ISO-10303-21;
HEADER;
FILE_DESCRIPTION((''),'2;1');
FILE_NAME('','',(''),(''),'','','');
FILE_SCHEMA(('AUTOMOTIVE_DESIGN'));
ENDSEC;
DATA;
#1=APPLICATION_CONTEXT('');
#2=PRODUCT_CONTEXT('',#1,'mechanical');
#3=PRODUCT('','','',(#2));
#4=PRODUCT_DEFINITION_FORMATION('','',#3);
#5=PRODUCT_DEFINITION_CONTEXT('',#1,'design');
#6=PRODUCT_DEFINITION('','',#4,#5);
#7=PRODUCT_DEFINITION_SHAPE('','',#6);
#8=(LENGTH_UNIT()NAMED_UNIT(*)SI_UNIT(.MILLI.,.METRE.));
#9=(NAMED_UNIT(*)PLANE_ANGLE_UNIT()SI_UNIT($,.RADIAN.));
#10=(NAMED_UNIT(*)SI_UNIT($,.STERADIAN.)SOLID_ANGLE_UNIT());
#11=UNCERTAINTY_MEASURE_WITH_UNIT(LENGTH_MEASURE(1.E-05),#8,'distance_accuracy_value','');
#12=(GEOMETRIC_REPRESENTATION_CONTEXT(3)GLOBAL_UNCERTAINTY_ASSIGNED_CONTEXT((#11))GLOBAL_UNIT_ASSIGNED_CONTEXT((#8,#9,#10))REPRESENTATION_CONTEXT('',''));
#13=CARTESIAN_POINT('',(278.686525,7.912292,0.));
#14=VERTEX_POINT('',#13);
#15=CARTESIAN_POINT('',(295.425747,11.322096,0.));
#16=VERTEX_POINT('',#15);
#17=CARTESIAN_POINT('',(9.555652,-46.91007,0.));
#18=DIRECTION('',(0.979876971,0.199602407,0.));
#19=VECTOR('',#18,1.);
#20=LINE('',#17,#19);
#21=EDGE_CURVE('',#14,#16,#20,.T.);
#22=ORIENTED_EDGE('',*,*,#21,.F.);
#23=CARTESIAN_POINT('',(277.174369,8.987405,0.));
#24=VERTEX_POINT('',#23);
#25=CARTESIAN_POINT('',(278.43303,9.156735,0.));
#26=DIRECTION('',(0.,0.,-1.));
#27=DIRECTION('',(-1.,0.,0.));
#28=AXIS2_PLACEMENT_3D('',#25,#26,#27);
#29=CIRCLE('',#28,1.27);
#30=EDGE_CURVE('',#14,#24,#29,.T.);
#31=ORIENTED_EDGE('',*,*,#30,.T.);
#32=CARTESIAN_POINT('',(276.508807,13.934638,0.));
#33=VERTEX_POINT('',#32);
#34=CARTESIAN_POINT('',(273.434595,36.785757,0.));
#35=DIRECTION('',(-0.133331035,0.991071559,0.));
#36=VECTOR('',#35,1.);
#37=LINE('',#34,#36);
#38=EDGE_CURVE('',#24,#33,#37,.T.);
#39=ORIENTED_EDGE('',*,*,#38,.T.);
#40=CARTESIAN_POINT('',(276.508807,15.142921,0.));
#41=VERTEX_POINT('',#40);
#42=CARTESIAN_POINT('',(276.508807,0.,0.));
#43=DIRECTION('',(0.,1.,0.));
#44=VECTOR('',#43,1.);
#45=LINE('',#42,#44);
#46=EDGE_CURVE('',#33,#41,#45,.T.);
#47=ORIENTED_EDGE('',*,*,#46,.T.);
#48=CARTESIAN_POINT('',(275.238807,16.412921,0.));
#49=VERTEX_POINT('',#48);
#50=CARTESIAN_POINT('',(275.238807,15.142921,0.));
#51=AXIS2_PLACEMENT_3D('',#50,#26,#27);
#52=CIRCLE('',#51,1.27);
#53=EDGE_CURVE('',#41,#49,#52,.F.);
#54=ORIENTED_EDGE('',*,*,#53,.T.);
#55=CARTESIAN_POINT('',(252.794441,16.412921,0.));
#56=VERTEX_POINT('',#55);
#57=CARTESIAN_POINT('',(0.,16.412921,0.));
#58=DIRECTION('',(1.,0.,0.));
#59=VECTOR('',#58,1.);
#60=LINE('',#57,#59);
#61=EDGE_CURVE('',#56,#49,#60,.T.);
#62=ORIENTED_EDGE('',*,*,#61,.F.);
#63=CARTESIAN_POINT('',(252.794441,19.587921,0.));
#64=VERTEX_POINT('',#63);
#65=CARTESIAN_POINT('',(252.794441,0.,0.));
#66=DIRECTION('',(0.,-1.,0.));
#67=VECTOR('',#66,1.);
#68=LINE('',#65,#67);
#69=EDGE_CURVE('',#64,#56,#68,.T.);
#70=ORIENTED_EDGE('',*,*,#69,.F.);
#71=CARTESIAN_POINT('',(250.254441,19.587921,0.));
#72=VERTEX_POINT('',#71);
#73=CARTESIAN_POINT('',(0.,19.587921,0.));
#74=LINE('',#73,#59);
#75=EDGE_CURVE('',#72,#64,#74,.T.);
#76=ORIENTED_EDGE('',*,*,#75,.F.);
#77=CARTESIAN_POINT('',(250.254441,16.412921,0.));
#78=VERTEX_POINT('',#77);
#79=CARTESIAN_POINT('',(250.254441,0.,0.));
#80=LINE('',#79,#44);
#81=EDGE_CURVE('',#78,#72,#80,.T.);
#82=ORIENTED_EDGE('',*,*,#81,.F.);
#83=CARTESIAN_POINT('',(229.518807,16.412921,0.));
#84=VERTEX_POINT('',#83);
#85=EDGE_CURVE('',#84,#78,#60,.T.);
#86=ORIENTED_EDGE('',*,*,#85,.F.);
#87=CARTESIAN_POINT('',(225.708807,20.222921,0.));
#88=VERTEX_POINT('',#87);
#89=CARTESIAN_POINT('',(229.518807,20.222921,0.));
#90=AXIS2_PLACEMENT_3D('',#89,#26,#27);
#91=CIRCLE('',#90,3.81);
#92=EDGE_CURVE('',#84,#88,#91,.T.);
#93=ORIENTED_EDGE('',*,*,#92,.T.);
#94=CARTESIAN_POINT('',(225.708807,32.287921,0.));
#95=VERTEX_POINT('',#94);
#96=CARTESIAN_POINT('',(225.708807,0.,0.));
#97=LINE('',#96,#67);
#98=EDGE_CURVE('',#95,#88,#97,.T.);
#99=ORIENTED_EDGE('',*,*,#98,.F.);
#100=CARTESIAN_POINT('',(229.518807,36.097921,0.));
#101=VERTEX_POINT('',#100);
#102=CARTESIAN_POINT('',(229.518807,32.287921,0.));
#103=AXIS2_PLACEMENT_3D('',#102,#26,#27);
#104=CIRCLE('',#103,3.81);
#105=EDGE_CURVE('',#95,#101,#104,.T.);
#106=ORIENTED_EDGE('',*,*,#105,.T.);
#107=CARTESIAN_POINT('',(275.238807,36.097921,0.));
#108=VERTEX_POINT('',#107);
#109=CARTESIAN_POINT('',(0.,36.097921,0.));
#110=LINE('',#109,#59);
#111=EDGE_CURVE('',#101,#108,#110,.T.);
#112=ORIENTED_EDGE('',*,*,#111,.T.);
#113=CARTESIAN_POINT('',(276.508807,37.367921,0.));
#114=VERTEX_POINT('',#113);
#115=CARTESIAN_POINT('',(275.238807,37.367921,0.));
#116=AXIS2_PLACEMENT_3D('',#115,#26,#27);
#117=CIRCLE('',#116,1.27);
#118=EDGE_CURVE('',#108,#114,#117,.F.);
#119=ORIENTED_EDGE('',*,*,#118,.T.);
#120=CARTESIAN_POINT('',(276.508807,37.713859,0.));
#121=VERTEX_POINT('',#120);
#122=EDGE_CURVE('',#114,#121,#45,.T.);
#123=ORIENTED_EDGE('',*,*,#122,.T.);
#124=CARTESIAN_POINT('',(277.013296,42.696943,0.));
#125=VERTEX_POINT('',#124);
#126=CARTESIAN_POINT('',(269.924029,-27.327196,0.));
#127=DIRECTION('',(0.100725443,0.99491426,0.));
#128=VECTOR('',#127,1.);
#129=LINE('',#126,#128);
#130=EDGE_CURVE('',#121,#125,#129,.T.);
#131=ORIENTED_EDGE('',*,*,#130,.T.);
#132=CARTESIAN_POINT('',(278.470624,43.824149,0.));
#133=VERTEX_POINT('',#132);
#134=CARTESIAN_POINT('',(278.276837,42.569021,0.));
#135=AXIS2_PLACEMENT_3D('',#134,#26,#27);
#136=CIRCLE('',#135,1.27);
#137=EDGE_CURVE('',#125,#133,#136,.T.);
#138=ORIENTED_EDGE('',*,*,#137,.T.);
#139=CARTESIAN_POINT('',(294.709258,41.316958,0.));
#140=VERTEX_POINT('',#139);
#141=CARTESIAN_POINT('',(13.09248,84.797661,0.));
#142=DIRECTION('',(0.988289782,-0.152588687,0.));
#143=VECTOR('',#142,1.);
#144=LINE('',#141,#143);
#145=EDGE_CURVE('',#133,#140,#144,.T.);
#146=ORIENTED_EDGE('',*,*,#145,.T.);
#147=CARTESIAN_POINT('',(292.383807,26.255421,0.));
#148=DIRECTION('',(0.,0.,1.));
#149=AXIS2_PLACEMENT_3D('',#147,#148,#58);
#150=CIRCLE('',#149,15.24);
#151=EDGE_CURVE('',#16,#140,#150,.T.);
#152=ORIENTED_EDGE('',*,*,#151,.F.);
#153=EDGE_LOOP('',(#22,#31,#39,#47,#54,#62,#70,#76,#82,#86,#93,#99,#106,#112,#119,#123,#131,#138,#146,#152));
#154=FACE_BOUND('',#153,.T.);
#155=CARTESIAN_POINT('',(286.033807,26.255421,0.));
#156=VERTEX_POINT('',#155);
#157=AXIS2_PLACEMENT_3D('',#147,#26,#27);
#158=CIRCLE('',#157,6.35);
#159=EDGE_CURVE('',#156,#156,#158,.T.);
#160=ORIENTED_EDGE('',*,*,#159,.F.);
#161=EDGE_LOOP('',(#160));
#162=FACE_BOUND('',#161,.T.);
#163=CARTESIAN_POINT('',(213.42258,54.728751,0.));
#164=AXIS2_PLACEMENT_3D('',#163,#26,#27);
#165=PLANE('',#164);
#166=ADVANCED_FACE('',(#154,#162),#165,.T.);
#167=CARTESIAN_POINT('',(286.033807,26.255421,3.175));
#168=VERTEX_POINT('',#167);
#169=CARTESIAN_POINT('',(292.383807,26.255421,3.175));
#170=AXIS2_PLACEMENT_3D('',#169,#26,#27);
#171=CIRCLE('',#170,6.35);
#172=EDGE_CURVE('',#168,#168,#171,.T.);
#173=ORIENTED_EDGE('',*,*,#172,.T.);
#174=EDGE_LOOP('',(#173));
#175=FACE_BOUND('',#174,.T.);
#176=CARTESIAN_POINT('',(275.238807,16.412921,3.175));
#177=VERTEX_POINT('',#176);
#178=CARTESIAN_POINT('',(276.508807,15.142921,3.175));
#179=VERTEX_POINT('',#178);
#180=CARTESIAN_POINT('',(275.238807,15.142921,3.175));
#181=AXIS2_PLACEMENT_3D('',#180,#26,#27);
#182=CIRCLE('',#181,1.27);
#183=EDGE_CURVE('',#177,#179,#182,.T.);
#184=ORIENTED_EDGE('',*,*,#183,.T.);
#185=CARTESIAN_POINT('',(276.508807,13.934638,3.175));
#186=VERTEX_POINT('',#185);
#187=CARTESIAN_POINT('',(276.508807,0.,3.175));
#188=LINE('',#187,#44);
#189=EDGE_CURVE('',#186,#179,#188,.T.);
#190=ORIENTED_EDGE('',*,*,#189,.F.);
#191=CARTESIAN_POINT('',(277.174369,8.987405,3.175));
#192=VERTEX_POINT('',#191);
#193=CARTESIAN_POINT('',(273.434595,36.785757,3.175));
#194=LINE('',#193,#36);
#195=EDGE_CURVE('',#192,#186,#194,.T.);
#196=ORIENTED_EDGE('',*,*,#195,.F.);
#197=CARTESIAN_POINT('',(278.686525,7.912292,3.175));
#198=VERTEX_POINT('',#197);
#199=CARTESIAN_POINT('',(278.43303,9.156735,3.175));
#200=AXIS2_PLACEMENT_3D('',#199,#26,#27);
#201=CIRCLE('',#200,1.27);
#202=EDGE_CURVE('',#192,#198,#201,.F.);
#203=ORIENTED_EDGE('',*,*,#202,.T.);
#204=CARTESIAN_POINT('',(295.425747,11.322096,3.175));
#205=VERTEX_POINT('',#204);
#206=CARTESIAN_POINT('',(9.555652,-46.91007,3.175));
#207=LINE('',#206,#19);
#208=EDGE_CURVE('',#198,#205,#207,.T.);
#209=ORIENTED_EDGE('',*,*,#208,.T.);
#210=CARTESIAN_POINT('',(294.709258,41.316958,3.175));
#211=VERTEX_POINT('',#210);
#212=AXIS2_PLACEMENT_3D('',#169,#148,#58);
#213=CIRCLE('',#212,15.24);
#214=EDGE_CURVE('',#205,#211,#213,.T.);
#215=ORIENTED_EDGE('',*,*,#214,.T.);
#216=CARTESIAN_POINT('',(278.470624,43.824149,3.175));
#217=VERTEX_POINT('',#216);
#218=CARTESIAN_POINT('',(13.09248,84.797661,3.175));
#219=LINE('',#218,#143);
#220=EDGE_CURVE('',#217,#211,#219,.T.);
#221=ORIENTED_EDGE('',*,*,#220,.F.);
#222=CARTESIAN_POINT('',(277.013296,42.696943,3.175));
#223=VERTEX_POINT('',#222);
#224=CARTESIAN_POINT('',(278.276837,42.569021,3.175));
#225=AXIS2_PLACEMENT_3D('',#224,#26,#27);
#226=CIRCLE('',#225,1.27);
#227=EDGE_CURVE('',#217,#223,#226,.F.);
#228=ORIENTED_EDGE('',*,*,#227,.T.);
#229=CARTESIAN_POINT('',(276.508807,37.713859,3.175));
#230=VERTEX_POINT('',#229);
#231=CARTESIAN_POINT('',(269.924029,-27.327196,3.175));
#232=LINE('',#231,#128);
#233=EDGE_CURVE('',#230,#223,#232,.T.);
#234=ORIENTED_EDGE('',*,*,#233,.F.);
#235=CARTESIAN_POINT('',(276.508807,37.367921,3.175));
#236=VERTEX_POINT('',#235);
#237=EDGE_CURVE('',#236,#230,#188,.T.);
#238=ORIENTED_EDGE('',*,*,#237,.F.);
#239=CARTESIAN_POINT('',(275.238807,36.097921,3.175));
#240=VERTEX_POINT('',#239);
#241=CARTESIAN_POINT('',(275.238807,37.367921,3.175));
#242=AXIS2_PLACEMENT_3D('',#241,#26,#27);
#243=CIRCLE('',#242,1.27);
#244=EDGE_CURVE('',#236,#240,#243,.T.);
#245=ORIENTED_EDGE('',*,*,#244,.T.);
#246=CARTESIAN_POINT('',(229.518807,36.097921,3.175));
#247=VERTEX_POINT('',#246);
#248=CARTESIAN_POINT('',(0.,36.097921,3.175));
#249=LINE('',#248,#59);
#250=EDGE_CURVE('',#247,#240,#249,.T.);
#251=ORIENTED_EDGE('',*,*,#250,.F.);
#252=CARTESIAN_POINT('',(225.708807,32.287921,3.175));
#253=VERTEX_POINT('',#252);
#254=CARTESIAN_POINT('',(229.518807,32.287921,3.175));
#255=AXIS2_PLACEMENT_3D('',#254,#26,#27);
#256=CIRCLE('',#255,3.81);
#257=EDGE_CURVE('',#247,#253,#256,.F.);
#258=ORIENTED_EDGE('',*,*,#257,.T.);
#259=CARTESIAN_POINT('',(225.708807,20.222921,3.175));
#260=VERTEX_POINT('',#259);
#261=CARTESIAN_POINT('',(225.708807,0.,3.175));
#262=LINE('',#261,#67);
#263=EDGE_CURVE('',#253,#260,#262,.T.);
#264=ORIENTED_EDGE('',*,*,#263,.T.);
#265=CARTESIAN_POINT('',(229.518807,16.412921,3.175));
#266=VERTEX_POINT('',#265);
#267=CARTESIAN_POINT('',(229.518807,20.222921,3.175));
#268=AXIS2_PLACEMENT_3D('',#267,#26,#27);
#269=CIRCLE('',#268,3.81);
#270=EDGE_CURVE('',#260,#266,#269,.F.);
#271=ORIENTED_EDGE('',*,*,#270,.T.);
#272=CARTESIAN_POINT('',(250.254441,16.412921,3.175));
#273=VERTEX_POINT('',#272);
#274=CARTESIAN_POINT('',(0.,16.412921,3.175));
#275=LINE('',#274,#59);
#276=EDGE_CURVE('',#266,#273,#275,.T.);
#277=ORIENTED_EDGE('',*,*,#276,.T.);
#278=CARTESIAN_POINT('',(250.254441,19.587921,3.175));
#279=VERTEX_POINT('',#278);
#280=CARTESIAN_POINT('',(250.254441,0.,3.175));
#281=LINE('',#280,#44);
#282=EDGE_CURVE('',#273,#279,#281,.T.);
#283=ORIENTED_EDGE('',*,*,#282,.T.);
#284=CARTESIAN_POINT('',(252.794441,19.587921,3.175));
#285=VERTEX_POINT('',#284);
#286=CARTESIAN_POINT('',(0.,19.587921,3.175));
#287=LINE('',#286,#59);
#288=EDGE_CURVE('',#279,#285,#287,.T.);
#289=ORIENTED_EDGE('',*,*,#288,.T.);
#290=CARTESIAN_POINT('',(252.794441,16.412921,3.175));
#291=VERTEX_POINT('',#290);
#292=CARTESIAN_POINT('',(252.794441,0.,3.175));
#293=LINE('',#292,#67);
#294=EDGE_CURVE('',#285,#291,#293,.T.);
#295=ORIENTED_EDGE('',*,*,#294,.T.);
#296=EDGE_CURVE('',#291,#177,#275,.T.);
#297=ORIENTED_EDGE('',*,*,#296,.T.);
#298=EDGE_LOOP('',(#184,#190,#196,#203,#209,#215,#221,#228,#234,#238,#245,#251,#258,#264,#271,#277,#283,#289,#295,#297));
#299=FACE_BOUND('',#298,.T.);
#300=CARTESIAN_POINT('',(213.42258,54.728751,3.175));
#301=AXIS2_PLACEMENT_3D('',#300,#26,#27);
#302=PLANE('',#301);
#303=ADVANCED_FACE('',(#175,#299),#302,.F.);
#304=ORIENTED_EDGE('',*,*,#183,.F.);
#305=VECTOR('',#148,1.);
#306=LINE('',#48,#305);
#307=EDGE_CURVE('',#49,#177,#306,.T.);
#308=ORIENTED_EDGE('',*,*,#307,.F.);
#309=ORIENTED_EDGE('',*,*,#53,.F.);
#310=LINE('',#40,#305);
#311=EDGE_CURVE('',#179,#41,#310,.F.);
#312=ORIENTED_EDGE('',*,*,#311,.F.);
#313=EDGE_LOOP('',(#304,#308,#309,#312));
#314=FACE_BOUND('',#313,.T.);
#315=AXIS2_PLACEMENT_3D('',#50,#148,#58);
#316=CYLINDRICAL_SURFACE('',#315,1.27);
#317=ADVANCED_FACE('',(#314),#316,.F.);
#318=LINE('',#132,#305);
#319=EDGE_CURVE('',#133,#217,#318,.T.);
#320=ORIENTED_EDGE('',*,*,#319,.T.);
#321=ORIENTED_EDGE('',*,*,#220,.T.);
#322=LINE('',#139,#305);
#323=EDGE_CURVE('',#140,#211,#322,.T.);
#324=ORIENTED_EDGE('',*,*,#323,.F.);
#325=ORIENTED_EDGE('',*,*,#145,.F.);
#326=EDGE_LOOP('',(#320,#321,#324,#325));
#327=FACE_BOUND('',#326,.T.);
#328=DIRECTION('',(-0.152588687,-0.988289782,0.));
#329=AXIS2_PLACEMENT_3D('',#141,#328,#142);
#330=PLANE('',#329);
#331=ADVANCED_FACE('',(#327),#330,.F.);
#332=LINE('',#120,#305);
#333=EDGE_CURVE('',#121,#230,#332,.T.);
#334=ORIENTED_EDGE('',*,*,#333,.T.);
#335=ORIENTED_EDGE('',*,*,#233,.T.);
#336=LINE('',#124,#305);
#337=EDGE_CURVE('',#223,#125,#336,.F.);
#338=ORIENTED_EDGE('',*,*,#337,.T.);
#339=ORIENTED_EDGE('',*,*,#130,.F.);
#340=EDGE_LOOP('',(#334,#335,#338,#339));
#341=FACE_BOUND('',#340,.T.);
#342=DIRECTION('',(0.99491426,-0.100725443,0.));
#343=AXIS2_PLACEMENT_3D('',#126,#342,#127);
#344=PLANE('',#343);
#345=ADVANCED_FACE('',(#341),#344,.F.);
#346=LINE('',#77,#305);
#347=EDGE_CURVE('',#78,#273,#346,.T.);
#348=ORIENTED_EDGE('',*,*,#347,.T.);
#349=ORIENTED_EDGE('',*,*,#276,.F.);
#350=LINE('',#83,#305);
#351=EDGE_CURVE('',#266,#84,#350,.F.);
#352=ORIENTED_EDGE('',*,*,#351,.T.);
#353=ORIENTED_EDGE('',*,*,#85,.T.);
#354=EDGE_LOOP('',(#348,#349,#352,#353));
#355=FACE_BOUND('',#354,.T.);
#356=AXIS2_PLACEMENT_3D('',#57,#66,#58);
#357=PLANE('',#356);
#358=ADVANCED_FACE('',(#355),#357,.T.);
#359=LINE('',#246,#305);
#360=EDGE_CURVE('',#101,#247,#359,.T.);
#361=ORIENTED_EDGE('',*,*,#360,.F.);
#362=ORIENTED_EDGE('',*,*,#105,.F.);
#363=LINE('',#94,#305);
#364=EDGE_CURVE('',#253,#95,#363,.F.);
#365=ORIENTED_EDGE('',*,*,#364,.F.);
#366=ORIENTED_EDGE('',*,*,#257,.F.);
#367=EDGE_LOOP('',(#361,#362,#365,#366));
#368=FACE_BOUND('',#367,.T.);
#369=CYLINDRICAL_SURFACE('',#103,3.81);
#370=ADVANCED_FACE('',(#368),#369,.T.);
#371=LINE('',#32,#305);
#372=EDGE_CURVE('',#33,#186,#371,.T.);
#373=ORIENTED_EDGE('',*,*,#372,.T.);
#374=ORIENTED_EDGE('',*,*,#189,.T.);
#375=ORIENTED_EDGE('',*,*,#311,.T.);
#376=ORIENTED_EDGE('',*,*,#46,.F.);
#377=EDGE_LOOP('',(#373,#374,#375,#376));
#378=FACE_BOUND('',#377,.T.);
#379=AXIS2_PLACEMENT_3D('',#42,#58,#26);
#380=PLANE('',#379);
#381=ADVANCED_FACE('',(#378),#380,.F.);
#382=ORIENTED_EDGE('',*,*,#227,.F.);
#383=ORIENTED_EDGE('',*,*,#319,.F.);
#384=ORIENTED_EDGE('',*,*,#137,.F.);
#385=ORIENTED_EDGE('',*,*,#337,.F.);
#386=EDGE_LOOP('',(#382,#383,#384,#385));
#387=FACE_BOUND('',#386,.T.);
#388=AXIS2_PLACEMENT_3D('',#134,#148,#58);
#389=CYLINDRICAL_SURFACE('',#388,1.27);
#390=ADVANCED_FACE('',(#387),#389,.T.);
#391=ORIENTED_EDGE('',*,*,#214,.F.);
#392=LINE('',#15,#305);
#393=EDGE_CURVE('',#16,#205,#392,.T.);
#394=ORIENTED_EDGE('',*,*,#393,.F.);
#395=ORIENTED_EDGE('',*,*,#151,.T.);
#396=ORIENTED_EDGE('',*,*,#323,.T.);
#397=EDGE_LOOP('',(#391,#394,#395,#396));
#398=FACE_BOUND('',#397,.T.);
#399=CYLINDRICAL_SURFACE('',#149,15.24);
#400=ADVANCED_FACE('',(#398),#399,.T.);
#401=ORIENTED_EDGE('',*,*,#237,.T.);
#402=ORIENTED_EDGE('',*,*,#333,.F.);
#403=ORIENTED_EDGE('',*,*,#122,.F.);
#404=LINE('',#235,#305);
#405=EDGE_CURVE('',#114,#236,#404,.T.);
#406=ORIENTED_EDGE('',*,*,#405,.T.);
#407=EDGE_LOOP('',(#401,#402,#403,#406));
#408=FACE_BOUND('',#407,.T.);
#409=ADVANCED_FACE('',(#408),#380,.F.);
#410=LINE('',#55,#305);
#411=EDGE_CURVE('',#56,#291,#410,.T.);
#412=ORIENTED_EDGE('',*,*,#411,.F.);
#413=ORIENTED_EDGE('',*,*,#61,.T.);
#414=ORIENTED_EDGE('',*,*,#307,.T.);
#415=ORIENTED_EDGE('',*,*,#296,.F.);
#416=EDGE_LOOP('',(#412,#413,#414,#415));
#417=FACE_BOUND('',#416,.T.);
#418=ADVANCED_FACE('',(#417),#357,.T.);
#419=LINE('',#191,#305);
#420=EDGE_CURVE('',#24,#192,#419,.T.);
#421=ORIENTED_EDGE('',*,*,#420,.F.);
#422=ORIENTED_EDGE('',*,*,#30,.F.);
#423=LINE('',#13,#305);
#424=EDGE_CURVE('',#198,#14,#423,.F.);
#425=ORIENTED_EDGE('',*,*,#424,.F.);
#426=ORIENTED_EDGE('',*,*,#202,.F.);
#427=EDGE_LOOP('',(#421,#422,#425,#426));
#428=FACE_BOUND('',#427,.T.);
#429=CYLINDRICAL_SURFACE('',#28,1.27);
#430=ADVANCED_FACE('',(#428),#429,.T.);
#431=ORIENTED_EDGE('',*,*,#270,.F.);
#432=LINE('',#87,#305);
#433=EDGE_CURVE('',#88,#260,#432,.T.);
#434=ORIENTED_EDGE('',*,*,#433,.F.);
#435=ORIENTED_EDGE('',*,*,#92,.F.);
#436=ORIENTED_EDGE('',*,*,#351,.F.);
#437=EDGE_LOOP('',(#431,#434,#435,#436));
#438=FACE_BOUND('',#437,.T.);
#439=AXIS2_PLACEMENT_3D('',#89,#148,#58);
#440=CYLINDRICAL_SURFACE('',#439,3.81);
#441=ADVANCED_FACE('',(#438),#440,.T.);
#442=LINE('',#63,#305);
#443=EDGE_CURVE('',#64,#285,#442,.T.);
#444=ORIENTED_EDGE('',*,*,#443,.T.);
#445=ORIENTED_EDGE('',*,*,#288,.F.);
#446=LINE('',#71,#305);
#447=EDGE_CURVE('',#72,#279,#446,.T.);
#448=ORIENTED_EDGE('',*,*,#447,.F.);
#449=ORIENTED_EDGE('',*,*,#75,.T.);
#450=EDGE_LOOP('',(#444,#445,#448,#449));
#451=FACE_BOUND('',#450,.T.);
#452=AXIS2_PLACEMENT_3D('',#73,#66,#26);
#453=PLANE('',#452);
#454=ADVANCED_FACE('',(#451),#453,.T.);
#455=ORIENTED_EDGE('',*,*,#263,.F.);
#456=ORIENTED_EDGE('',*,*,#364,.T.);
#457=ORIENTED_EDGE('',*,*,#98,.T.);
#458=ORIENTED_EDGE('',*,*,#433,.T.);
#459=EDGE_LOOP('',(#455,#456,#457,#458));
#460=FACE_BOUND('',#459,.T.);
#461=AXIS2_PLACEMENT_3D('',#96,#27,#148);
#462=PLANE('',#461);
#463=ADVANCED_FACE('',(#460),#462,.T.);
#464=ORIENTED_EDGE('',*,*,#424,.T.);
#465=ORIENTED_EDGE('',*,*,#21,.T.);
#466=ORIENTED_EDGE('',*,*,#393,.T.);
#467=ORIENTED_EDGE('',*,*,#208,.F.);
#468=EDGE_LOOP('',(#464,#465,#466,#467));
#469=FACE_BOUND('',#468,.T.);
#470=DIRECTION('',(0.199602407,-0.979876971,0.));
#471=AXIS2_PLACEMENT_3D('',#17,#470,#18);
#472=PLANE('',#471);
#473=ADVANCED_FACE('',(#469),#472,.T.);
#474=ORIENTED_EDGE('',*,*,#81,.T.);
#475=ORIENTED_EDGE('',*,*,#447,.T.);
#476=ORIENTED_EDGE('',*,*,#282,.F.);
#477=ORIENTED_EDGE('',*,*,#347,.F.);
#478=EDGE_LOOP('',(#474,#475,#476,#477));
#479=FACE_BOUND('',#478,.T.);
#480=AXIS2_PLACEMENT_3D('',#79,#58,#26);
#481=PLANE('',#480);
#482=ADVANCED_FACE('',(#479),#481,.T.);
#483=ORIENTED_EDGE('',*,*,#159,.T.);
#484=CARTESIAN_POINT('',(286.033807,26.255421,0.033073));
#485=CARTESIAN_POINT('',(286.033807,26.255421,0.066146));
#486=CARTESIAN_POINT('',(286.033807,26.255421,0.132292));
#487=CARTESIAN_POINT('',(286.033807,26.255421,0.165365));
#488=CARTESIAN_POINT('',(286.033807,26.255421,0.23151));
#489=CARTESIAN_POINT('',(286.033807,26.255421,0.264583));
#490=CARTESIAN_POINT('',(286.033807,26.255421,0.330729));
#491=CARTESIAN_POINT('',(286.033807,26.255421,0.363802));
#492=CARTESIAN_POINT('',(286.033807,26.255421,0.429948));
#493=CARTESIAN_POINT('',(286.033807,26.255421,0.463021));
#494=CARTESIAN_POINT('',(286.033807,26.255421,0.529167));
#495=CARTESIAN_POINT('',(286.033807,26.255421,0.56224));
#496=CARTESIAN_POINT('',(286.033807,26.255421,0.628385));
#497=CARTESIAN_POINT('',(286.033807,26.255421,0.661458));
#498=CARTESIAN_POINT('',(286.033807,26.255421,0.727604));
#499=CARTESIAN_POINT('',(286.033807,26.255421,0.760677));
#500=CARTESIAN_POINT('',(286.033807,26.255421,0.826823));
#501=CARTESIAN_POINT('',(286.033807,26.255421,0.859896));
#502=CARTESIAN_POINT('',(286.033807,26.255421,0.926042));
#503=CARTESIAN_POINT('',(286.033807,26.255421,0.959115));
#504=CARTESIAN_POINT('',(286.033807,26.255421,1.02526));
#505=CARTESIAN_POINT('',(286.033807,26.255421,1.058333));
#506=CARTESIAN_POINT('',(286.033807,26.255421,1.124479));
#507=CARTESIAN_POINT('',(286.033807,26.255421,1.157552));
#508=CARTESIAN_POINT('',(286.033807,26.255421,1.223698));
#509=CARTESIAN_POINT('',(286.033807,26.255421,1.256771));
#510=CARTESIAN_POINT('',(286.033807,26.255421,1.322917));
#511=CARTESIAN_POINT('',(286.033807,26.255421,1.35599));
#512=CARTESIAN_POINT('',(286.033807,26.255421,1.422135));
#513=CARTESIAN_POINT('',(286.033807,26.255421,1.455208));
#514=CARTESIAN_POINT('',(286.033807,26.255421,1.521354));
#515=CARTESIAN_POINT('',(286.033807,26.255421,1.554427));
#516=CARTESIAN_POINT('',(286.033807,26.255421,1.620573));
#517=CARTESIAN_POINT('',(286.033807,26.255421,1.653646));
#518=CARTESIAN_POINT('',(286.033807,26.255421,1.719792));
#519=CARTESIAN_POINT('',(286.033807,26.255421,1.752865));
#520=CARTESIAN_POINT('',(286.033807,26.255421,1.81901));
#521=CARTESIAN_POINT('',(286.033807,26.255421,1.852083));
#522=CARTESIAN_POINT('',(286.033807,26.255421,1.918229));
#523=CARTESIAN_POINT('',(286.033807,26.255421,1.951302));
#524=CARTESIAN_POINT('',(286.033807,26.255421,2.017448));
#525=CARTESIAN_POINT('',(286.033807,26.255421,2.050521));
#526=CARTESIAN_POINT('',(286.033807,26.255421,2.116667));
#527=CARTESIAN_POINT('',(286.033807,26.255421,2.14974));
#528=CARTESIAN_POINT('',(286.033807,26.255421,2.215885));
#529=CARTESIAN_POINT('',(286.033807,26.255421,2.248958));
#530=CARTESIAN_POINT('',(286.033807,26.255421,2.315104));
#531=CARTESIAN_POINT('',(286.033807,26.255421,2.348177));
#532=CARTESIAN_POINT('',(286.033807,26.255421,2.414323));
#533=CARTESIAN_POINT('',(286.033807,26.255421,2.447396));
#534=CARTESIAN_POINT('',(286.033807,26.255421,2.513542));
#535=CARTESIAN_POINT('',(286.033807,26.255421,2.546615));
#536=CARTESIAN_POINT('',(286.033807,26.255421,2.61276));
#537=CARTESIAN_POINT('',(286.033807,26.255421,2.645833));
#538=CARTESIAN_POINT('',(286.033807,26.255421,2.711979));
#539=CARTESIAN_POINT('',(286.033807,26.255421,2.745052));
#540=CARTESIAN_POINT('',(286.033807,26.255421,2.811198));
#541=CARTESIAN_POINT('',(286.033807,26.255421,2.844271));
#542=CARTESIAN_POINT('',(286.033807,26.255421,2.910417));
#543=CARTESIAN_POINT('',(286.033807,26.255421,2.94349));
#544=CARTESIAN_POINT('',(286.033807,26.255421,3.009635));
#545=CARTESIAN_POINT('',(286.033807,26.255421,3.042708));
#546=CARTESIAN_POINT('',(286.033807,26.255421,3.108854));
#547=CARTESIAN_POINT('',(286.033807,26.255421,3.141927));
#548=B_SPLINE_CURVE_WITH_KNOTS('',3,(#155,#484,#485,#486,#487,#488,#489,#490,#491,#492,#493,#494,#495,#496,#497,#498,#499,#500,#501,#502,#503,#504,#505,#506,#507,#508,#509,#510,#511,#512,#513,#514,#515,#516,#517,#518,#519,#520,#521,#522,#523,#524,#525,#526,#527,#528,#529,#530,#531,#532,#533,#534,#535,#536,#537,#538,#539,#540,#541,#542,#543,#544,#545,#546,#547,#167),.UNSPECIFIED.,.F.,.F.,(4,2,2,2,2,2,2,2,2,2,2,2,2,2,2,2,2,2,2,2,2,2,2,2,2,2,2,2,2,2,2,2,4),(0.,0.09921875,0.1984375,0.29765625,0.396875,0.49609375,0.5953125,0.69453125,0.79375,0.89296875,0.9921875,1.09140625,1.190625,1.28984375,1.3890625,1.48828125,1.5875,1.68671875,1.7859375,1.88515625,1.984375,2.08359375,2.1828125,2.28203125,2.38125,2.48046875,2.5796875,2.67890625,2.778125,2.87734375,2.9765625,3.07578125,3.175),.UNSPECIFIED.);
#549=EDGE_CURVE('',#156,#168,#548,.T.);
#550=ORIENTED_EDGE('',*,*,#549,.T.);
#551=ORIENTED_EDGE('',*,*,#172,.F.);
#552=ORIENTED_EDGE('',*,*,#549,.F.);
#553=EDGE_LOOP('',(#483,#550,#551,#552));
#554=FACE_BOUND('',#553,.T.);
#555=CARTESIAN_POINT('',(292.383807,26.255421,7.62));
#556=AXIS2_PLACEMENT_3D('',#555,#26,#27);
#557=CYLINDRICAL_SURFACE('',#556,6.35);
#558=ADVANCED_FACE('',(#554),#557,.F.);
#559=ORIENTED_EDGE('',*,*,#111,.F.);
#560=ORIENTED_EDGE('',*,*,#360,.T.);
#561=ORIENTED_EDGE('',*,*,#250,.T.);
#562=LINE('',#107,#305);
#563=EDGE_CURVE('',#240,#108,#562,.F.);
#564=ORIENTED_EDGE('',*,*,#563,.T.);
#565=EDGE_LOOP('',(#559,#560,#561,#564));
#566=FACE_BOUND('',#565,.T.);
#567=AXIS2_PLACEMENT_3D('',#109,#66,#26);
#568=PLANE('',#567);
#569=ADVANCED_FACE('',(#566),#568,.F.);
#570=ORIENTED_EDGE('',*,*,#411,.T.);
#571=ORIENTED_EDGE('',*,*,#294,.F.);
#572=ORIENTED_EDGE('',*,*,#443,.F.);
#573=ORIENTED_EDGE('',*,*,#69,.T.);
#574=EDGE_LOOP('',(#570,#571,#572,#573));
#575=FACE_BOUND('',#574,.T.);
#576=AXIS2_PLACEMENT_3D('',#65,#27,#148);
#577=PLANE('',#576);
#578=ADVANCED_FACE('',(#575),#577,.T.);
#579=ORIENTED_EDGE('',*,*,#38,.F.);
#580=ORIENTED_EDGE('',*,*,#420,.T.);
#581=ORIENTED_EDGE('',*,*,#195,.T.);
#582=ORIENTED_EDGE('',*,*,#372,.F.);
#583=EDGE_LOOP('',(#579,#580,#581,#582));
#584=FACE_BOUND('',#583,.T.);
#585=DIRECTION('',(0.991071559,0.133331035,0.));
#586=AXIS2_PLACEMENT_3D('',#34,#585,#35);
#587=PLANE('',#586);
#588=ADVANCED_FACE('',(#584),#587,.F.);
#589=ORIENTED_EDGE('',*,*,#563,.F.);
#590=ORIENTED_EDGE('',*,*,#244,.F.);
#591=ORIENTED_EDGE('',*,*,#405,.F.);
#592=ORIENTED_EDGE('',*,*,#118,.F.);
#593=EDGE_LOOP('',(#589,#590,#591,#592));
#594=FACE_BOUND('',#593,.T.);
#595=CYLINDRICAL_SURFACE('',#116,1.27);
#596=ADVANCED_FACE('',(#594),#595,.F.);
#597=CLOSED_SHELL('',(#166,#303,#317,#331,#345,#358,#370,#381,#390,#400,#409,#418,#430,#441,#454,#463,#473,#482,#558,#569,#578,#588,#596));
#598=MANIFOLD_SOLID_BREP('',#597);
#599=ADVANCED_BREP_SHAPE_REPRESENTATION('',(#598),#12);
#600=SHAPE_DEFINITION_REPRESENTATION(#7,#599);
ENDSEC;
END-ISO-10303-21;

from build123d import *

# Parameters (mm, degrees)
BOSS_EXTRUDE1_DEPTH = 3.175
CUT_EXTRUDE1_DEPTH  = 7.62
SKETCH3_R           = 6.35
CUT_EXTRUDE2_DEPTH  = 7.62
CUT_EXTRUDE3_DEPTH  = 443.627115857
FILLET1_R           = 3.81
FILLET2_R           = 1.27


with BuildPart() as part:
    # Sketch1 → Boss-Extrude1 (new body)
    with BuildSketch(Plane.XY):
        with BuildLine():
            Line((435.33010469, 0.678691456), (439.172882547, -1.614212492))
            Line((439.172882547, -1.614212492), (434.787151486, -0.678691456))
            add(Edge.make_bspline(
                [(0, 0), (0.11179123, -0.527729161), (0.335887463, -1.58561283), (0.94472768, -3.108527015), (1.749889805, -4.572488672), (2.768272335, -5.973609192), (3.993104005, -7.311505618), (5.421679636, -8.587569541), (7.052598221, -9.801114861), (8.883725224, -10.951589231), (10.912400596, -12.040213999), (13.136344152, -13.066312264), (15.553528081, -14.029563428), (18.161318821, -14.928679795), (20.956528242, -15.765030781), (23.936498821, -16.536578215), (27.097842034, -17.244400464), (30.437517266, -17.886690773), (33.951885298, -18.464101669), (37.637295209, -18.976309975), (41.489964184, -19.423636044), (45.506112459, -19.80514129), (49.681767661, -20.121646285), (54.012767863, -20.373360955), (58.494909036, -20.561083494), (63.123897762, -20.684100336), (67.895200479, -20.744329207), (72.804505265, -20.742674403), (77.847009648, -20.678693244), (83.018406129, -20.555920262), (88.313732191, -20.373577887), (93.728207214, -20.133872554), (99.256947275, -19.839216685), (104.89499369, -19.49060908), (110.637384794, -19.089594814), (116.479134607, -18.639389777), (122.414936441, -18.141116951), (128.439613477, -17.597680601), (134.547832047, -17.011801372), (140.734314746, -16.385333349), (146.993600903, -15.721223571), (153.320115485, -15.021624036), (159.708476563, -14.290267097), (166.152848405, -13.528475979), (172.647781594, -12.740600204), (179.187166024, -11.928145018), (185.765533466, -11.094239816), (192.376967293, -10.242811017), (199.015278084, -9.37376151), (205.674882543, -8.493282903), (212.349358377, -7.600650086), (219.032895906, -6.7004538), (225.719308248, -5.795492203), (232.402082768, -4.886043807), (239.075345122, -3.975877517), (245.732904616, -3.06749205), (252.368240069, -2.160970285), (258.975348295, -1.26081803), (265.547576185, -0.366925322), (272.078863439, 0.518895586), (278.562951189, 1.394000598), (284.993721977, 2.257285217), (291.364542133, 3.108203268), (297.66900214, 3.947074317), (303.806375969, 4.748436439), (309.760626579, 5.554962658), (315.551818652, 6.216135275), (321.27090305, 6.780469964), (326.923820465, 7.243146515), (332.503782957, 7.610821489), (338.004397185, 7.886122043), (343.419107553, 8.072891719), (348.74107448, 8.176671364), (353.963650696, 8.200094537), (359.079707468, 8.150631139), (364.082590991, 8.032268225), (368.965318868, 7.850318702), (373.721079318, 7.610921079), (378.343117125, 7.320601554), (382.824493294, 6.983642622), (387.158963185, 6.607910686), (391.339839301, 6.198906082), (395.360701925, 5.761301701), (399.215684034, 5.304267166), (402.898615263, 4.830811549), (406.403955911, 4.348715399), (409.726063296, 3.862864382), (412.859676284, 3.379461168), (415.799871302, 2.903117573), (418.541899149, 2.440155772), (421.081464376, 1.994901374), (423.414160264, 1.571702591), (425.536750687, 1.175899009), (427.445043551, 0.809456817), (429.136486586, 0.478415007), (430.607934716, 0.184234372), (431.857230885, -0.068940506), (432.88219343, -0.280110359), (433.681265576, -0.445808771), (434.252869013, -0.566300363), (434.596385478, -0.637999126), (434.749014267, -0.670556399), (434.787151486, -0.678691456)],
                knots=[0, 0, 0, 0, 0.003638255, 0.007293231, 0.011028136, 0.014901081, 0.018963272, 0.023258475, 0.027820626, 0.032679082, 0.03785316, 0.043361875, 0.049214679, 0.055422346, 0.061988786, 0.068918036, 0.076211157, 0.083868392, 0.091887411, 0.100265912, 0.108999867, 0.118084529, 0.127514843, 0.13728527, 0.147387917, 0.157816481, 0.168563473, 0.179619128, 0.190977373, 0.202626974, 0.214560478, 0.226767249, 0.239236417, 0.251959004, 0.264923894, 0.278119703, 0.291536035, 0.30516028, 0.318980685, 0.332985499, 0.34716279, 0.361498603, 0.375980747, 0.390597192, 0.405332593, 0.420174823, 0.435109533, 0.450124276, 0.465203068, 0.480333154, 0.495500583, 0.510689775, 0.525887334, 0.541078314, 0.556247233, 0.571381785, 0.58646604, 0.601484515, 0.616424329, 0.631269423, 0.646006524, 0.660620684, 0.675098187, 0.689422858, 0.703581825, 0.716907563, 0.730009274, 0.742952128, 0.755725557, 0.768319951, 0.780724337, 0.792926528, 0.804916041, 0.816679084, 0.828203525, 0.8394749, 0.850481359, 0.861207697, 0.871639326, 0.881763414, 0.891563605, 0.901027365, 0.910138977, 0.918883977, 0.927249278, 0.935221104, 0.942784739, 0.949928188, 0.956638465, 0.962904203, 0.968712288, 0.974054485, 0.978918432, 0.983297219, 0.987180246, 0.990560674, 0.993433357, 0.995790626, 0.997629588, 0.998945816, 0.999736592, 1, 1, 1, 1], degree=3))
            add(Edge.make_bspline(
                [(435.33010469, 0.678691456), (435.296755582, 0.699293055), (435.163488681, 0.781619431), (434.863214309, 0.965803828), (434.363194901, 1.272571896), (433.663211466, 1.69979322), (432.763807452, 2.246333125), (431.664530435, 2.908364558), (430.366066728, 3.683736897), (428.86873043, 4.568782589), (427.172675107, 5.559358025), (425.278546429, 6.651449737), (423.186509465, 7.838875427), (420.897374442, 9.116782681), (418.411926851, 10.4790944), (415.730636684, 11.919657082), (412.854464224, 13.43114364), (409.784513475, 15.00705265), (406.521344218, 16.638681918), (403.066494801, 18.319240705), (399.421116368, 20.040349747), (395.586453278, 21.79282696), (391.56470833, 23.569527811), (387.356993489, 25.359407096), (382.965706604, 27.15470981), (378.392717175, 28.945218407), (373.640732922, 30.722778715), (368.711587102, 32.475875028), (363.608964359, 34.196846251), (358.335340013, 35.87451254), (352.894485425, 37.499762392), (347.289561815, 39.062058655), (341.52524157, 40.553388886), (335.605180365, 41.962892679), (329.534395845, 43.28113527), (323.317713598, 44.500180123), (316.960347344, 45.607856696), (310.479914041, 46.603301327), (303.980682286, 47.431342852), (297.494822244, 48.243461645), (291.0186212, 49.006373108), (284.46326746, 49.736966294), (277.835067652, 50.431127833), (271.140596349, 51.086687253), (264.386630807, 51.700815013), (257.580189535, 52.27171033), (250.727858804, 52.796138155), (243.836864005, 53.273290553), (236.914017847, 53.698972807), (229.966694004, 54.072865307), (223.001944897, 54.392360355), (216.027018499, 54.655256617), (209.049321182, 54.859966995), (202.076096041, 55.004530305), (195.114893299, 55.088037667), (188.172953688, 55.108207309), (181.257823923, 55.064678381), (174.376745271, 54.95595632), (167.537272154, 54.780552763), (160.7466557, 54.538140281), (154.012238926, 54.228824112), (147.341395315, 53.850013849), (140.741361553, 53.404123644), (134.219487317, 52.889280335), (127.782938298, 52.305347044), (121.438460058, 51.65475786), (115.193116172, 50.935743156), (109.053599754, 50.150348891), (103.026626206, 49.300114834), (97.118957953, 48.384577869), (91.33692342, 47.406382542), (85.686763085, 46.366529581), (80.174454785, 45.268067638), (74.805999973, 44.111283189), (69.587081438, 42.899646299), (64.52312301, 41.635267927), (59.619568317, 40.320462769), (54.881388132, 38.958385816), (50.313373811, 37.552127128), (45.920850559, 36.103231966), (41.707138151, 34.617193881), (37.677412709, 33.095067788), (33.834761135, 31.541542875), (30.183686712, 29.958740393), (26.726916941, 28.351485511), (23.468364091, 26.721608068), (20.41035055, 25.073674406), (17.555946308, 23.410211446), (14.907899047, 21.73430892), (12.467321746, 20.050217809), (10.237579271, 18.35899521), (8.219437586, 16.664914738), (6.414173801, 14.97055608), (4.824368385, 13.277086383), (3.449964137, 11.587487839), (2.292762263, 9.903098559), (1.352963468, 8.225512409), (0.632693499, 6.555947979), (0.13123808, 4.895344207), (-0.143255259, 3.246152095), (-0.211578297, 1.607049514), (-0.07042072, 0.534882766), (0, 0)],
                knots=[0, 0, 0, 0, 0.00025409, 0.001015373, 0.002283359, 0.004056577, 0.006330982, 0.009105274, 0.012374489, 0.016134023, 0.02037966, 0.025105976, 0.030306237, 0.035972206, 0.042099522, 0.048678064, 0.055701664, 0.063160184, 0.071045824, 0.079349826, 0.08806291, 0.097175756, 0.106678112, 0.116561573, 0.126814275, 0.137428301, 0.148393618, 0.15969976, 0.171338126, 0.183297699, 0.195569604, 0.208143556, 0.221011593, 0.234161831, 0.24758745, 0.261276822, 0.27522271, 0.289414144, 0.303771199, 0.317689227, 0.331784111, 0.346039677, 0.36044387, 0.37498272, 0.389640454, 0.404403316, 0.419256601, 0.434186749, 0.449177265, 0.464214782, 0.479284009, 0.49436974, 0.509457833, 0.524532346, 0.53957932, 0.554582984, 0.569529546, 0.584403417, 0.599190992, 0.613876838, 0.628447475, 0.642888675, 0.657186054, 0.671325546, 0.685294014, 0.699078147, 0.712665095, 0.726042645, 0.739197713, 0.752117586, 0.764792042, 0.777208152, 0.789355685, 0.80122396, 0.812803686, 0.824082909, 0.835054602, 0.845709571, 0.856037853, 0.866033834, 0.875688843, 0.884997719, 0.893953426, 0.902552897, 0.910789386, 0.918660734, 0.926166253, 0.933302626, 0.94007122, 0.94647478, 0.952517526, 0.958204819, 0.963546652, 0.9685566, 0.973249913, 0.977651041, 0.981787043, 0.985694226, 0.989415109, 0.993001157, 0.996508416, 1, 1, 1, 1], degree=3))
        make_face()
    extrude(amount=BOSS_EXTRUDE1_DEPTH)

    # Sketch2 → Cut-Extrude1 (cut)
    with BuildSketch(Plane(origin=(0, 0, 0), x_dir=(-1, 0, 0), z_dir=(0, 0, -1))):
        Polygon((-252.794440989, 13.221493744), (-250.254440989, 13.221493744), (-250.254440989, -2.115243028), (-250.254440989, -3.986349358), (-252.794440989, -3.050796193), (-252.794440989, -2.115243028), align=None)
        Polygon((-159.131940989, 54.422217902), (-159.131940989, 39.039100326), (-152.781940989, 39.039100326), (-152.781940989, 54.422217902), (-152.781940989, 57.645440557), (-159.131940989, 55.540936844), align=None)
        Polygon((-74.994440989, -5.928775484), (-74.994440989, -20.141805429), (-74.994440989, -20.97642061), (-71.819440989, -22.145862066), (-71.819440989, -20.141805429), (-71.819440989, -5.928775484), align=None)
    extrude(amount=-CUT_EXTRUDE1_DEPTH, mode=Mode.SUBTRACT)

    # Sketch3 → Cut-Extrude2 (cut)
    with BuildSketch(Plane(origin=(0, 0, 0), x_dir=(-1, 0, 0), z_dir=(0, 0, -1))):
        with Locations((-292.383806588, 26.255421435)):
            Circle(SKETCH3_R)
    extrude(amount=-CUT_EXTRUDE2_DEPTH, mode=Mode.SUBTRACT)

    # Sketch4 → Cut-Extrude3 (cut, through all)
    with BuildSketch(Plane.XY.offset(3.175)):
        with BuildLine():
            Line((252.794440989, 13.221493744), (252.794440989, -2.10324862))
            add(Edge.make_bspline(
                [(252.794440989, -2.10324862), (254.858559034, -1.821690299), (259.114187798, -1.241934385), (265.547576185, -0.366925322), (272.078863439, 0.518895586), (278.562951189, 1.394000598), (284.993721977, 2.257285217), (291.364542133, 3.108203268), (297.66900214, 3.947074317), (303.806375969, 4.748436439), (309.760626579, 5.554962658), (315.551818652, 6.216135275), (321.27090305, 6.780469964), (326.923820465, 7.243146515), (332.503782957, 7.610821489), (338.004397185, 7.886122043), (343.419107553, 8.072891719), (348.74107448, 8.176671364), (353.963650696, 8.200094537), (359.079707468, 8.150631139), (364.082590991, 8.032268225), (368.965318868, 7.850318702), (373.721079318, 7.610921079), (378.343117125, 7.320601554), (382.824493294, 6.983642622), (387.158963185, 6.607910686), (391.339839301, 6.198906082), (395.360701925, 5.761301701), (399.215684034, 5.304267166), (402.898615263, 4.830811549), (406.403955911, 4.348715399), (409.726063296, 3.862864382), (412.859676284, 3.379461168), (415.799871302, 2.903117573), (418.541899149, 2.440155772), (421.081464376, 1.994901374), (423.414160264, 1.571702591), (425.536750687, 1.175899009), (427.445043551, 0.809456817), (429.136486586, 0.478415007), (430.607934716, 0.184234372), (431.857230885, -0.068940506), (432.88219343, -0.280110359), (433.681265576, -0.445808771), (434.252869013, -0.566300363), (434.596385478, -0.637999126), (434.749014267, -0.670556399), (434.787151486, -0.678691456)],
                knots=[0.58741252, 0.58741252, 0.58741252, 0.58741252, 0.601484515, 0.616424329, 0.631269423, 0.646006524, 0.660620684, 0.675098187, 0.689422858, 0.703581825, 0.716907563, 0.730009274, 0.742952128, 0.755725557, 0.768319951, 0.780724337, 0.792926528, 0.804916041, 0.816679084, 0.828203525, 0.8394749, 0.850481359, 0.861207697, 0.871639326, 0.881763414, 0.891563605, 0.901027365, 0.910138977, 0.918883977, 0.927249278, 0.935221104, 0.942784739, 0.949928188, 0.956638465, 0.962904203, 0.968712288, 0.974054485, 0.978918432, 0.983297219, 0.987180246, 0.990560674, 0.993433357, 0.995790626, 0.997629588, 0.998945816, 0.999736592, 1, 1, 1, 1], degree=3))
            Line((434.787151486, -0.678691456), (439.172882547, -1.614212492))
            Line((439.172882547, -1.614212492), (435.33010469, 0.678691456))
            add(Edge.make_bspline(
                [(435.33010469, 0.678691456), (435.296755582, 0.699293055), (435.163488681, 0.781619431), (434.863214309, 0.965803828), (434.363194901, 1.272571896), (433.663211466, 1.69979322), (432.763807452, 2.246333125), (431.664530435, 2.908364558), (430.366066728, 3.683736897), (428.86873043, 4.568782589), (427.172675107, 5.559358025), (425.278546429, 6.651449737), (423.186509465, 7.838875427), (420.897374442, 9.116782681), (418.411926851, 10.4790944), (415.730636684, 11.919657082), (412.854464224, 13.43114364), (409.784513475, 15.00705265), (406.521344218, 16.638681918), (403.066494801, 18.319240705), (399.421116368, 20.040349747), (395.586453278, 21.79282696), (391.56470833, 23.569527811), (387.356993489, 25.359407096), (382.965706604, 27.15470981), (378.392717175, 28.945218407), (373.640732922, 30.722778715), (368.711587102, 32.475875028), (363.608964359, 34.196846251), (358.335340013, 35.87451254), (352.894485425, 37.499762392), (347.289561815, 39.062058655), (341.52524157, 40.553388886), (335.605180365, 41.962892679), (329.534395845, 43.28113527), (323.317713598, 44.500180123), (316.960347344, 45.607856696), (310.479914041, 46.603301327), (303.980682286, 47.431342852), (297.494822244, 48.243461645), (291.0186212, 49.006373108), (284.46326746, 49.736966294), (277.835067652, 50.431127833), (271.140596349, 51.086687253), (264.386630807, 51.700815013), (257.580189535, 52.27171033), (250.727858804, 52.796138155), (243.836864005, 53.273290553), (236.914017847, 53.698972807), (229.966694004, 54.072865307), (223.001944897, 54.392360355), (216.027018499, 54.655256617), (209.049321182, 54.859966995), (202.076096041, 55.004530305), (195.114893299, 55.088037667), (188.172953688, 55.108207309), (181.257823923, 55.064678381), (174.376745271, 54.95595632), (167.537272154, 54.780552763), (162.460512229, 54.599321798), (159.664388036, 54.481767761), (159.131940989, 54.458728839)],
                knots=[0, 0, 0, 0, 0.00025409, 0.001015373, 0.002283359, 0.004056577, 0.006330982, 0.009105274, 0.012374489, 0.016134023, 0.02037966, 0.025105976, 0.030306237, 0.035972206, 0.042099522, 0.048678064, 0.055701664, 0.063160184, 0.071045824, 0.079349826, 0.08806291, 0.097175756, 0.106678112, 0.116561573, 0.126814275, 0.137428301, 0.148393618, 0.15969976, 0.171338126, 0.183297699, 0.195569604, 0.208143556, 0.221011593, 0.234161831, 0.24758745, 0.261276822, 0.27522271, 0.289414144, 0.303771199, 0.317689227, 0.331784111, 0.346039677, 0.36044387, 0.37498272, 0.389640454, 0.404403316, 0.419256601, 0.434186749, 0.449177265, 0.464214782, 0.479284009, 0.49436974, 0.509457833, 0.524532346, 0.53957932, 0.554582984, 0.569529546, 0.584403417, 0.599190992, 0.613876838, 0.617331371, 0.617331371, 0.617331371, 0.617331371], degree=3))
            Line((159.131940989, 54.458728839), (159.131940989, 39.039100326))
            Line((159.131940989, 39.039100326), (152.781940989, 39.039100326))
            Line((152.781940989, 39.039100326), (152.781940989, 54.152292604))
            add(Edge.make_bspline(
                [(152.781940989, 54.152292604), (150.960838294, 54.055151294), (146.938096683, 53.822767487), (140.741361553, 53.404123644), (134.219487317, 52.889280335), (127.782938298, 52.305347044), (121.438460058, 51.65475786), (115.193116172, 50.935743156), (109.053599754, 50.150348891), (103.026626206, 49.300114834), (97.118957953, 48.384577869), (91.33692342, 47.406382542), (85.686763085, 46.366529581), (80.174454785, 45.268067638), (74.805999973, 44.111283189), (69.587081438, 42.899646299), (64.52312301, 41.635267927), (59.619568317, 40.320462769), (54.881388132, 38.958385816), (50.313373811, 37.552127128), (45.920850559, 36.103231966), (41.707138151, 34.617193881), (37.677412709, 33.095067788), (33.834761135, 31.541542875), (30.183686712, 29.958740393), (26.726916941, 28.351485511), (23.468364091, 26.721608068), (20.41035055, 25.073674406), (17.555946308, 23.410211446), (14.907899047, 21.73430892), (12.467321746, 20.050217809), (10.237579271, 18.35899521), (8.219437586, 16.664914738), (6.414173801, 14.97055608), (4.824368385, 13.277086383), (3.449964137, 11.587487839), (2.292762263, 9.903098559), (1.352963468, 8.225512409), (0.632693499, 6.555947979), (0.13123808, 4.895344207), (-0.143255259, 3.246152095), (-0.211578297, 1.607049514), (-0.07042072, 0.534882766), (0, 0)],
                knots=[0.631067563, 0.631067563, 0.631067563, 0.631067563, 0.642888675, 0.657186054, 0.671325546, 0.685294014, 0.699078147, 0.712665095, 0.726042645, 0.739197713, 0.752117586, 0.764792042, 0.777208152, 0.789355685, 0.80122396, 0.812803686, 0.824082909, 0.835054602, 0.845709571, 0.856037853, 0.866033834, 0.875688843, 0.884997719, 0.893953426, 0.902552897, 0.910789386, 0.918660734, 0.926166253, 0.933302626, 0.94007122, 0.94647478, 0.952517526, 0.958204819, 0.963546652, 0.9685566, 0.973249913, 0.977651041, 0.981787043, 0.985694226, 0.989415109, 0.993001157, 0.996508416, 1, 1, 1, 1], degree=3))
            add(Edge.make_bspline(
                [(0, 0), (0.11179123, -0.527729161), (0.335887463, -1.58561283), (0.94472768, -3.108527015), (1.749889805, -4.572488672), (2.768272335, -5.973609192), (3.993104005, -7.311505618), (5.421679636, -8.587569541), (7.052598221, -9.801114861), (8.883725224, -10.951589231), (10.912400596, -12.040213999), (13.136344152, -13.066312264), (15.553528081, -14.029563428), (18.161318821, -14.928679795), (20.956528242, -15.765030781), (23.936498821, -16.536578215), (27.097842034, -17.244400464), (30.437517266, -17.886690773), (33.951885298, -18.464101669), (37.637295209, -18.976309975), (41.489964184, -19.423636044), (45.506112459, -19.80514129), (49.681767661, -20.121646285), (54.012767863, -20.373360955), (58.494909036, -20.561083494), (63.123897762, -20.684100336), (67.581814032, -20.740373283), (70.496154942, -20.74305812), (71.819440989, -20.73766124)],
                knots=[0, 0, 0, 0, 0.003638255, 0.007293231, 0.011028136, 0.014901081, 0.018963272, 0.023258475, 0.027820626, 0.032679082, 0.03785316, 0.043361875, 0.049214679, 0.055422346, 0.061988786, 0.068918036, 0.076211157, 0.083868392, 0.091887411, 0.100265912, 0.108999867, 0.118084529, 0.127514843, 0.13728527, 0.147387917, 0.157816481, 0.168563473, 0.177502133, 0.177502133, 0.177502133, 0.177502133], degree=3))
            Line((71.819440989, -20.73766124), (71.819440989, -5.928775484))
            Line((71.819440989, -5.928775484), (74.994440989, -5.928775484))
            Line((74.994440989, -5.928775484), (74.994440989, -20.712271676))
            add(Edge.make_bspline(
                [(74.994440989, -20.712271676), (75.930905335, -20.70120515), (78.59177595, -20.661011912), (83.018406129, -20.555920262), (88.313732191, -20.373577887), (93.728207214, -20.133872554), (99.256947275, -19.839216685), (104.89499369, -19.49060908), (110.637384794, -19.089594814), (116.479134607, -18.639389777), (122.414936441, -18.141116951), (128.439613477, -17.597680601), (134.547832047, -17.011801372), (140.734314746, -16.385333349), (146.993600903, -15.721223571), (153.320115485, -15.021624036), (159.708476563, -14.290267097), (166.152848405, -13.528475979), (172.647781594, -12.740600204), (179.187166024, -11.928145018), (185.765533466, -11.094239816), (192.376967293, -10.242811017), (199.015278084, -9.37376151), (205.674882543, -8.493282903), (212.349358377, -7.600650086), (219.032895906, -6.7004538), (225.719308248, -5.795492203), (232.402082768, -4.886043807), (239.075345122, -3.975877517), (245.025066378, -3.164072481), (248.749707349, -2.655315536), (250.254440989, -2.449884512)],
                knots=[0.184651258, 0.184651258, 0.184651258, 0.184651258, 0.190977373, 0.202626974, 0.214560478, 0.226767249, 0.239236417, 0.251959004, 0.264923894, 0.278119703, 0.291536035, 0.30516028, 0.318980685, 0.332985499, 0.34716279, 0.361498603, 0.375980747, 0.390597192, 0.405332593, 0.420174823, 0.435109533, 0.450124276, 0.465203068, 0.480333154, 0.495500583, 0.510689775, 0.525887334, 0.541078314, 0.556247233, 0.571381785, 0.581640373, 0.581640373, 0.581640373, 0.581640373], degree=3))
            Line((250.254440989, -2.449884512), (250.254440989, 13.221493744))
            Line((250.254440989, 13.221493744), (252.794440989, 13.221493744))
        make_face()
        with BuildLine():
            Line((276.508806588, 37.713859181), (277.148087148, 44.028344676))
            Line((277.148087148, 44.028344676), (294.709258182, 41.316957707))
            ThreePointArc((294.709258182, 41.316957707), (307.619460539, 26.619356431), (295.425747266, 11.32209639))
            Line((295.425747266, 11.32209639), (277.355482442, 7.64115638))
            Line((277.355482442, 7.64115638), (276.508806588, 13.934637567))
            Line((276.508806588, 13.934637567), (276.508806588, 16.412921435))
            Line((276.508806588, 16.412921435), (252.794440989, 16.412921435))
            Line((252.794440989, 16.412921435), (252.794440989, 19.587921435))
            Line((252.794440989, 19.587921435), (250.254440989, 19.587921435))
            Line((250.254440989, 19.587921435), (250.254440989, 16.412921435))
            Line((250.254440989, 16.412921435), (225.708806588, 16.412921435))
            Line((225.708806588, 16.412921435), (225.708806588, 36.097921435))
            Line((225.708806588, 36.097921435), (276.508806588, 36.097921435))
            Line((276.508806588, 36.097921435), (276.508806588, 37.713859181))
        make_face(mode=Mode.SUBTRACT)
    extrude(amount=-CUT_EXTRUDE3_DEPTH, mode=Mode.SUBTRACT)

    # Fillet1
    fillet1_edges = [part.edges().sort_by_distance(p)[0] for p in [
        (225.708806588, 36.097921435, 1.5875),
        (225.708806588, 16.412921435, 1.5875),
    ]]
    fillet(fillet1_edges, radius=FILLET1_R)

    # Fillet2
    fillet2_edges = [part.edges().sort_by_distance(p)[0] for p in [
        (277.355482442, 7.64115638, 1.5875),
        (277.148087148, 44.028344676, 1.5875),
        (276.508806588, 36.097921435, 1.5875),
        (276.508806588, 16.412921435, 1.5875),
    ]]
    fillet(fillet2_edges, radius=FILLET2_R)


solid = part.part
